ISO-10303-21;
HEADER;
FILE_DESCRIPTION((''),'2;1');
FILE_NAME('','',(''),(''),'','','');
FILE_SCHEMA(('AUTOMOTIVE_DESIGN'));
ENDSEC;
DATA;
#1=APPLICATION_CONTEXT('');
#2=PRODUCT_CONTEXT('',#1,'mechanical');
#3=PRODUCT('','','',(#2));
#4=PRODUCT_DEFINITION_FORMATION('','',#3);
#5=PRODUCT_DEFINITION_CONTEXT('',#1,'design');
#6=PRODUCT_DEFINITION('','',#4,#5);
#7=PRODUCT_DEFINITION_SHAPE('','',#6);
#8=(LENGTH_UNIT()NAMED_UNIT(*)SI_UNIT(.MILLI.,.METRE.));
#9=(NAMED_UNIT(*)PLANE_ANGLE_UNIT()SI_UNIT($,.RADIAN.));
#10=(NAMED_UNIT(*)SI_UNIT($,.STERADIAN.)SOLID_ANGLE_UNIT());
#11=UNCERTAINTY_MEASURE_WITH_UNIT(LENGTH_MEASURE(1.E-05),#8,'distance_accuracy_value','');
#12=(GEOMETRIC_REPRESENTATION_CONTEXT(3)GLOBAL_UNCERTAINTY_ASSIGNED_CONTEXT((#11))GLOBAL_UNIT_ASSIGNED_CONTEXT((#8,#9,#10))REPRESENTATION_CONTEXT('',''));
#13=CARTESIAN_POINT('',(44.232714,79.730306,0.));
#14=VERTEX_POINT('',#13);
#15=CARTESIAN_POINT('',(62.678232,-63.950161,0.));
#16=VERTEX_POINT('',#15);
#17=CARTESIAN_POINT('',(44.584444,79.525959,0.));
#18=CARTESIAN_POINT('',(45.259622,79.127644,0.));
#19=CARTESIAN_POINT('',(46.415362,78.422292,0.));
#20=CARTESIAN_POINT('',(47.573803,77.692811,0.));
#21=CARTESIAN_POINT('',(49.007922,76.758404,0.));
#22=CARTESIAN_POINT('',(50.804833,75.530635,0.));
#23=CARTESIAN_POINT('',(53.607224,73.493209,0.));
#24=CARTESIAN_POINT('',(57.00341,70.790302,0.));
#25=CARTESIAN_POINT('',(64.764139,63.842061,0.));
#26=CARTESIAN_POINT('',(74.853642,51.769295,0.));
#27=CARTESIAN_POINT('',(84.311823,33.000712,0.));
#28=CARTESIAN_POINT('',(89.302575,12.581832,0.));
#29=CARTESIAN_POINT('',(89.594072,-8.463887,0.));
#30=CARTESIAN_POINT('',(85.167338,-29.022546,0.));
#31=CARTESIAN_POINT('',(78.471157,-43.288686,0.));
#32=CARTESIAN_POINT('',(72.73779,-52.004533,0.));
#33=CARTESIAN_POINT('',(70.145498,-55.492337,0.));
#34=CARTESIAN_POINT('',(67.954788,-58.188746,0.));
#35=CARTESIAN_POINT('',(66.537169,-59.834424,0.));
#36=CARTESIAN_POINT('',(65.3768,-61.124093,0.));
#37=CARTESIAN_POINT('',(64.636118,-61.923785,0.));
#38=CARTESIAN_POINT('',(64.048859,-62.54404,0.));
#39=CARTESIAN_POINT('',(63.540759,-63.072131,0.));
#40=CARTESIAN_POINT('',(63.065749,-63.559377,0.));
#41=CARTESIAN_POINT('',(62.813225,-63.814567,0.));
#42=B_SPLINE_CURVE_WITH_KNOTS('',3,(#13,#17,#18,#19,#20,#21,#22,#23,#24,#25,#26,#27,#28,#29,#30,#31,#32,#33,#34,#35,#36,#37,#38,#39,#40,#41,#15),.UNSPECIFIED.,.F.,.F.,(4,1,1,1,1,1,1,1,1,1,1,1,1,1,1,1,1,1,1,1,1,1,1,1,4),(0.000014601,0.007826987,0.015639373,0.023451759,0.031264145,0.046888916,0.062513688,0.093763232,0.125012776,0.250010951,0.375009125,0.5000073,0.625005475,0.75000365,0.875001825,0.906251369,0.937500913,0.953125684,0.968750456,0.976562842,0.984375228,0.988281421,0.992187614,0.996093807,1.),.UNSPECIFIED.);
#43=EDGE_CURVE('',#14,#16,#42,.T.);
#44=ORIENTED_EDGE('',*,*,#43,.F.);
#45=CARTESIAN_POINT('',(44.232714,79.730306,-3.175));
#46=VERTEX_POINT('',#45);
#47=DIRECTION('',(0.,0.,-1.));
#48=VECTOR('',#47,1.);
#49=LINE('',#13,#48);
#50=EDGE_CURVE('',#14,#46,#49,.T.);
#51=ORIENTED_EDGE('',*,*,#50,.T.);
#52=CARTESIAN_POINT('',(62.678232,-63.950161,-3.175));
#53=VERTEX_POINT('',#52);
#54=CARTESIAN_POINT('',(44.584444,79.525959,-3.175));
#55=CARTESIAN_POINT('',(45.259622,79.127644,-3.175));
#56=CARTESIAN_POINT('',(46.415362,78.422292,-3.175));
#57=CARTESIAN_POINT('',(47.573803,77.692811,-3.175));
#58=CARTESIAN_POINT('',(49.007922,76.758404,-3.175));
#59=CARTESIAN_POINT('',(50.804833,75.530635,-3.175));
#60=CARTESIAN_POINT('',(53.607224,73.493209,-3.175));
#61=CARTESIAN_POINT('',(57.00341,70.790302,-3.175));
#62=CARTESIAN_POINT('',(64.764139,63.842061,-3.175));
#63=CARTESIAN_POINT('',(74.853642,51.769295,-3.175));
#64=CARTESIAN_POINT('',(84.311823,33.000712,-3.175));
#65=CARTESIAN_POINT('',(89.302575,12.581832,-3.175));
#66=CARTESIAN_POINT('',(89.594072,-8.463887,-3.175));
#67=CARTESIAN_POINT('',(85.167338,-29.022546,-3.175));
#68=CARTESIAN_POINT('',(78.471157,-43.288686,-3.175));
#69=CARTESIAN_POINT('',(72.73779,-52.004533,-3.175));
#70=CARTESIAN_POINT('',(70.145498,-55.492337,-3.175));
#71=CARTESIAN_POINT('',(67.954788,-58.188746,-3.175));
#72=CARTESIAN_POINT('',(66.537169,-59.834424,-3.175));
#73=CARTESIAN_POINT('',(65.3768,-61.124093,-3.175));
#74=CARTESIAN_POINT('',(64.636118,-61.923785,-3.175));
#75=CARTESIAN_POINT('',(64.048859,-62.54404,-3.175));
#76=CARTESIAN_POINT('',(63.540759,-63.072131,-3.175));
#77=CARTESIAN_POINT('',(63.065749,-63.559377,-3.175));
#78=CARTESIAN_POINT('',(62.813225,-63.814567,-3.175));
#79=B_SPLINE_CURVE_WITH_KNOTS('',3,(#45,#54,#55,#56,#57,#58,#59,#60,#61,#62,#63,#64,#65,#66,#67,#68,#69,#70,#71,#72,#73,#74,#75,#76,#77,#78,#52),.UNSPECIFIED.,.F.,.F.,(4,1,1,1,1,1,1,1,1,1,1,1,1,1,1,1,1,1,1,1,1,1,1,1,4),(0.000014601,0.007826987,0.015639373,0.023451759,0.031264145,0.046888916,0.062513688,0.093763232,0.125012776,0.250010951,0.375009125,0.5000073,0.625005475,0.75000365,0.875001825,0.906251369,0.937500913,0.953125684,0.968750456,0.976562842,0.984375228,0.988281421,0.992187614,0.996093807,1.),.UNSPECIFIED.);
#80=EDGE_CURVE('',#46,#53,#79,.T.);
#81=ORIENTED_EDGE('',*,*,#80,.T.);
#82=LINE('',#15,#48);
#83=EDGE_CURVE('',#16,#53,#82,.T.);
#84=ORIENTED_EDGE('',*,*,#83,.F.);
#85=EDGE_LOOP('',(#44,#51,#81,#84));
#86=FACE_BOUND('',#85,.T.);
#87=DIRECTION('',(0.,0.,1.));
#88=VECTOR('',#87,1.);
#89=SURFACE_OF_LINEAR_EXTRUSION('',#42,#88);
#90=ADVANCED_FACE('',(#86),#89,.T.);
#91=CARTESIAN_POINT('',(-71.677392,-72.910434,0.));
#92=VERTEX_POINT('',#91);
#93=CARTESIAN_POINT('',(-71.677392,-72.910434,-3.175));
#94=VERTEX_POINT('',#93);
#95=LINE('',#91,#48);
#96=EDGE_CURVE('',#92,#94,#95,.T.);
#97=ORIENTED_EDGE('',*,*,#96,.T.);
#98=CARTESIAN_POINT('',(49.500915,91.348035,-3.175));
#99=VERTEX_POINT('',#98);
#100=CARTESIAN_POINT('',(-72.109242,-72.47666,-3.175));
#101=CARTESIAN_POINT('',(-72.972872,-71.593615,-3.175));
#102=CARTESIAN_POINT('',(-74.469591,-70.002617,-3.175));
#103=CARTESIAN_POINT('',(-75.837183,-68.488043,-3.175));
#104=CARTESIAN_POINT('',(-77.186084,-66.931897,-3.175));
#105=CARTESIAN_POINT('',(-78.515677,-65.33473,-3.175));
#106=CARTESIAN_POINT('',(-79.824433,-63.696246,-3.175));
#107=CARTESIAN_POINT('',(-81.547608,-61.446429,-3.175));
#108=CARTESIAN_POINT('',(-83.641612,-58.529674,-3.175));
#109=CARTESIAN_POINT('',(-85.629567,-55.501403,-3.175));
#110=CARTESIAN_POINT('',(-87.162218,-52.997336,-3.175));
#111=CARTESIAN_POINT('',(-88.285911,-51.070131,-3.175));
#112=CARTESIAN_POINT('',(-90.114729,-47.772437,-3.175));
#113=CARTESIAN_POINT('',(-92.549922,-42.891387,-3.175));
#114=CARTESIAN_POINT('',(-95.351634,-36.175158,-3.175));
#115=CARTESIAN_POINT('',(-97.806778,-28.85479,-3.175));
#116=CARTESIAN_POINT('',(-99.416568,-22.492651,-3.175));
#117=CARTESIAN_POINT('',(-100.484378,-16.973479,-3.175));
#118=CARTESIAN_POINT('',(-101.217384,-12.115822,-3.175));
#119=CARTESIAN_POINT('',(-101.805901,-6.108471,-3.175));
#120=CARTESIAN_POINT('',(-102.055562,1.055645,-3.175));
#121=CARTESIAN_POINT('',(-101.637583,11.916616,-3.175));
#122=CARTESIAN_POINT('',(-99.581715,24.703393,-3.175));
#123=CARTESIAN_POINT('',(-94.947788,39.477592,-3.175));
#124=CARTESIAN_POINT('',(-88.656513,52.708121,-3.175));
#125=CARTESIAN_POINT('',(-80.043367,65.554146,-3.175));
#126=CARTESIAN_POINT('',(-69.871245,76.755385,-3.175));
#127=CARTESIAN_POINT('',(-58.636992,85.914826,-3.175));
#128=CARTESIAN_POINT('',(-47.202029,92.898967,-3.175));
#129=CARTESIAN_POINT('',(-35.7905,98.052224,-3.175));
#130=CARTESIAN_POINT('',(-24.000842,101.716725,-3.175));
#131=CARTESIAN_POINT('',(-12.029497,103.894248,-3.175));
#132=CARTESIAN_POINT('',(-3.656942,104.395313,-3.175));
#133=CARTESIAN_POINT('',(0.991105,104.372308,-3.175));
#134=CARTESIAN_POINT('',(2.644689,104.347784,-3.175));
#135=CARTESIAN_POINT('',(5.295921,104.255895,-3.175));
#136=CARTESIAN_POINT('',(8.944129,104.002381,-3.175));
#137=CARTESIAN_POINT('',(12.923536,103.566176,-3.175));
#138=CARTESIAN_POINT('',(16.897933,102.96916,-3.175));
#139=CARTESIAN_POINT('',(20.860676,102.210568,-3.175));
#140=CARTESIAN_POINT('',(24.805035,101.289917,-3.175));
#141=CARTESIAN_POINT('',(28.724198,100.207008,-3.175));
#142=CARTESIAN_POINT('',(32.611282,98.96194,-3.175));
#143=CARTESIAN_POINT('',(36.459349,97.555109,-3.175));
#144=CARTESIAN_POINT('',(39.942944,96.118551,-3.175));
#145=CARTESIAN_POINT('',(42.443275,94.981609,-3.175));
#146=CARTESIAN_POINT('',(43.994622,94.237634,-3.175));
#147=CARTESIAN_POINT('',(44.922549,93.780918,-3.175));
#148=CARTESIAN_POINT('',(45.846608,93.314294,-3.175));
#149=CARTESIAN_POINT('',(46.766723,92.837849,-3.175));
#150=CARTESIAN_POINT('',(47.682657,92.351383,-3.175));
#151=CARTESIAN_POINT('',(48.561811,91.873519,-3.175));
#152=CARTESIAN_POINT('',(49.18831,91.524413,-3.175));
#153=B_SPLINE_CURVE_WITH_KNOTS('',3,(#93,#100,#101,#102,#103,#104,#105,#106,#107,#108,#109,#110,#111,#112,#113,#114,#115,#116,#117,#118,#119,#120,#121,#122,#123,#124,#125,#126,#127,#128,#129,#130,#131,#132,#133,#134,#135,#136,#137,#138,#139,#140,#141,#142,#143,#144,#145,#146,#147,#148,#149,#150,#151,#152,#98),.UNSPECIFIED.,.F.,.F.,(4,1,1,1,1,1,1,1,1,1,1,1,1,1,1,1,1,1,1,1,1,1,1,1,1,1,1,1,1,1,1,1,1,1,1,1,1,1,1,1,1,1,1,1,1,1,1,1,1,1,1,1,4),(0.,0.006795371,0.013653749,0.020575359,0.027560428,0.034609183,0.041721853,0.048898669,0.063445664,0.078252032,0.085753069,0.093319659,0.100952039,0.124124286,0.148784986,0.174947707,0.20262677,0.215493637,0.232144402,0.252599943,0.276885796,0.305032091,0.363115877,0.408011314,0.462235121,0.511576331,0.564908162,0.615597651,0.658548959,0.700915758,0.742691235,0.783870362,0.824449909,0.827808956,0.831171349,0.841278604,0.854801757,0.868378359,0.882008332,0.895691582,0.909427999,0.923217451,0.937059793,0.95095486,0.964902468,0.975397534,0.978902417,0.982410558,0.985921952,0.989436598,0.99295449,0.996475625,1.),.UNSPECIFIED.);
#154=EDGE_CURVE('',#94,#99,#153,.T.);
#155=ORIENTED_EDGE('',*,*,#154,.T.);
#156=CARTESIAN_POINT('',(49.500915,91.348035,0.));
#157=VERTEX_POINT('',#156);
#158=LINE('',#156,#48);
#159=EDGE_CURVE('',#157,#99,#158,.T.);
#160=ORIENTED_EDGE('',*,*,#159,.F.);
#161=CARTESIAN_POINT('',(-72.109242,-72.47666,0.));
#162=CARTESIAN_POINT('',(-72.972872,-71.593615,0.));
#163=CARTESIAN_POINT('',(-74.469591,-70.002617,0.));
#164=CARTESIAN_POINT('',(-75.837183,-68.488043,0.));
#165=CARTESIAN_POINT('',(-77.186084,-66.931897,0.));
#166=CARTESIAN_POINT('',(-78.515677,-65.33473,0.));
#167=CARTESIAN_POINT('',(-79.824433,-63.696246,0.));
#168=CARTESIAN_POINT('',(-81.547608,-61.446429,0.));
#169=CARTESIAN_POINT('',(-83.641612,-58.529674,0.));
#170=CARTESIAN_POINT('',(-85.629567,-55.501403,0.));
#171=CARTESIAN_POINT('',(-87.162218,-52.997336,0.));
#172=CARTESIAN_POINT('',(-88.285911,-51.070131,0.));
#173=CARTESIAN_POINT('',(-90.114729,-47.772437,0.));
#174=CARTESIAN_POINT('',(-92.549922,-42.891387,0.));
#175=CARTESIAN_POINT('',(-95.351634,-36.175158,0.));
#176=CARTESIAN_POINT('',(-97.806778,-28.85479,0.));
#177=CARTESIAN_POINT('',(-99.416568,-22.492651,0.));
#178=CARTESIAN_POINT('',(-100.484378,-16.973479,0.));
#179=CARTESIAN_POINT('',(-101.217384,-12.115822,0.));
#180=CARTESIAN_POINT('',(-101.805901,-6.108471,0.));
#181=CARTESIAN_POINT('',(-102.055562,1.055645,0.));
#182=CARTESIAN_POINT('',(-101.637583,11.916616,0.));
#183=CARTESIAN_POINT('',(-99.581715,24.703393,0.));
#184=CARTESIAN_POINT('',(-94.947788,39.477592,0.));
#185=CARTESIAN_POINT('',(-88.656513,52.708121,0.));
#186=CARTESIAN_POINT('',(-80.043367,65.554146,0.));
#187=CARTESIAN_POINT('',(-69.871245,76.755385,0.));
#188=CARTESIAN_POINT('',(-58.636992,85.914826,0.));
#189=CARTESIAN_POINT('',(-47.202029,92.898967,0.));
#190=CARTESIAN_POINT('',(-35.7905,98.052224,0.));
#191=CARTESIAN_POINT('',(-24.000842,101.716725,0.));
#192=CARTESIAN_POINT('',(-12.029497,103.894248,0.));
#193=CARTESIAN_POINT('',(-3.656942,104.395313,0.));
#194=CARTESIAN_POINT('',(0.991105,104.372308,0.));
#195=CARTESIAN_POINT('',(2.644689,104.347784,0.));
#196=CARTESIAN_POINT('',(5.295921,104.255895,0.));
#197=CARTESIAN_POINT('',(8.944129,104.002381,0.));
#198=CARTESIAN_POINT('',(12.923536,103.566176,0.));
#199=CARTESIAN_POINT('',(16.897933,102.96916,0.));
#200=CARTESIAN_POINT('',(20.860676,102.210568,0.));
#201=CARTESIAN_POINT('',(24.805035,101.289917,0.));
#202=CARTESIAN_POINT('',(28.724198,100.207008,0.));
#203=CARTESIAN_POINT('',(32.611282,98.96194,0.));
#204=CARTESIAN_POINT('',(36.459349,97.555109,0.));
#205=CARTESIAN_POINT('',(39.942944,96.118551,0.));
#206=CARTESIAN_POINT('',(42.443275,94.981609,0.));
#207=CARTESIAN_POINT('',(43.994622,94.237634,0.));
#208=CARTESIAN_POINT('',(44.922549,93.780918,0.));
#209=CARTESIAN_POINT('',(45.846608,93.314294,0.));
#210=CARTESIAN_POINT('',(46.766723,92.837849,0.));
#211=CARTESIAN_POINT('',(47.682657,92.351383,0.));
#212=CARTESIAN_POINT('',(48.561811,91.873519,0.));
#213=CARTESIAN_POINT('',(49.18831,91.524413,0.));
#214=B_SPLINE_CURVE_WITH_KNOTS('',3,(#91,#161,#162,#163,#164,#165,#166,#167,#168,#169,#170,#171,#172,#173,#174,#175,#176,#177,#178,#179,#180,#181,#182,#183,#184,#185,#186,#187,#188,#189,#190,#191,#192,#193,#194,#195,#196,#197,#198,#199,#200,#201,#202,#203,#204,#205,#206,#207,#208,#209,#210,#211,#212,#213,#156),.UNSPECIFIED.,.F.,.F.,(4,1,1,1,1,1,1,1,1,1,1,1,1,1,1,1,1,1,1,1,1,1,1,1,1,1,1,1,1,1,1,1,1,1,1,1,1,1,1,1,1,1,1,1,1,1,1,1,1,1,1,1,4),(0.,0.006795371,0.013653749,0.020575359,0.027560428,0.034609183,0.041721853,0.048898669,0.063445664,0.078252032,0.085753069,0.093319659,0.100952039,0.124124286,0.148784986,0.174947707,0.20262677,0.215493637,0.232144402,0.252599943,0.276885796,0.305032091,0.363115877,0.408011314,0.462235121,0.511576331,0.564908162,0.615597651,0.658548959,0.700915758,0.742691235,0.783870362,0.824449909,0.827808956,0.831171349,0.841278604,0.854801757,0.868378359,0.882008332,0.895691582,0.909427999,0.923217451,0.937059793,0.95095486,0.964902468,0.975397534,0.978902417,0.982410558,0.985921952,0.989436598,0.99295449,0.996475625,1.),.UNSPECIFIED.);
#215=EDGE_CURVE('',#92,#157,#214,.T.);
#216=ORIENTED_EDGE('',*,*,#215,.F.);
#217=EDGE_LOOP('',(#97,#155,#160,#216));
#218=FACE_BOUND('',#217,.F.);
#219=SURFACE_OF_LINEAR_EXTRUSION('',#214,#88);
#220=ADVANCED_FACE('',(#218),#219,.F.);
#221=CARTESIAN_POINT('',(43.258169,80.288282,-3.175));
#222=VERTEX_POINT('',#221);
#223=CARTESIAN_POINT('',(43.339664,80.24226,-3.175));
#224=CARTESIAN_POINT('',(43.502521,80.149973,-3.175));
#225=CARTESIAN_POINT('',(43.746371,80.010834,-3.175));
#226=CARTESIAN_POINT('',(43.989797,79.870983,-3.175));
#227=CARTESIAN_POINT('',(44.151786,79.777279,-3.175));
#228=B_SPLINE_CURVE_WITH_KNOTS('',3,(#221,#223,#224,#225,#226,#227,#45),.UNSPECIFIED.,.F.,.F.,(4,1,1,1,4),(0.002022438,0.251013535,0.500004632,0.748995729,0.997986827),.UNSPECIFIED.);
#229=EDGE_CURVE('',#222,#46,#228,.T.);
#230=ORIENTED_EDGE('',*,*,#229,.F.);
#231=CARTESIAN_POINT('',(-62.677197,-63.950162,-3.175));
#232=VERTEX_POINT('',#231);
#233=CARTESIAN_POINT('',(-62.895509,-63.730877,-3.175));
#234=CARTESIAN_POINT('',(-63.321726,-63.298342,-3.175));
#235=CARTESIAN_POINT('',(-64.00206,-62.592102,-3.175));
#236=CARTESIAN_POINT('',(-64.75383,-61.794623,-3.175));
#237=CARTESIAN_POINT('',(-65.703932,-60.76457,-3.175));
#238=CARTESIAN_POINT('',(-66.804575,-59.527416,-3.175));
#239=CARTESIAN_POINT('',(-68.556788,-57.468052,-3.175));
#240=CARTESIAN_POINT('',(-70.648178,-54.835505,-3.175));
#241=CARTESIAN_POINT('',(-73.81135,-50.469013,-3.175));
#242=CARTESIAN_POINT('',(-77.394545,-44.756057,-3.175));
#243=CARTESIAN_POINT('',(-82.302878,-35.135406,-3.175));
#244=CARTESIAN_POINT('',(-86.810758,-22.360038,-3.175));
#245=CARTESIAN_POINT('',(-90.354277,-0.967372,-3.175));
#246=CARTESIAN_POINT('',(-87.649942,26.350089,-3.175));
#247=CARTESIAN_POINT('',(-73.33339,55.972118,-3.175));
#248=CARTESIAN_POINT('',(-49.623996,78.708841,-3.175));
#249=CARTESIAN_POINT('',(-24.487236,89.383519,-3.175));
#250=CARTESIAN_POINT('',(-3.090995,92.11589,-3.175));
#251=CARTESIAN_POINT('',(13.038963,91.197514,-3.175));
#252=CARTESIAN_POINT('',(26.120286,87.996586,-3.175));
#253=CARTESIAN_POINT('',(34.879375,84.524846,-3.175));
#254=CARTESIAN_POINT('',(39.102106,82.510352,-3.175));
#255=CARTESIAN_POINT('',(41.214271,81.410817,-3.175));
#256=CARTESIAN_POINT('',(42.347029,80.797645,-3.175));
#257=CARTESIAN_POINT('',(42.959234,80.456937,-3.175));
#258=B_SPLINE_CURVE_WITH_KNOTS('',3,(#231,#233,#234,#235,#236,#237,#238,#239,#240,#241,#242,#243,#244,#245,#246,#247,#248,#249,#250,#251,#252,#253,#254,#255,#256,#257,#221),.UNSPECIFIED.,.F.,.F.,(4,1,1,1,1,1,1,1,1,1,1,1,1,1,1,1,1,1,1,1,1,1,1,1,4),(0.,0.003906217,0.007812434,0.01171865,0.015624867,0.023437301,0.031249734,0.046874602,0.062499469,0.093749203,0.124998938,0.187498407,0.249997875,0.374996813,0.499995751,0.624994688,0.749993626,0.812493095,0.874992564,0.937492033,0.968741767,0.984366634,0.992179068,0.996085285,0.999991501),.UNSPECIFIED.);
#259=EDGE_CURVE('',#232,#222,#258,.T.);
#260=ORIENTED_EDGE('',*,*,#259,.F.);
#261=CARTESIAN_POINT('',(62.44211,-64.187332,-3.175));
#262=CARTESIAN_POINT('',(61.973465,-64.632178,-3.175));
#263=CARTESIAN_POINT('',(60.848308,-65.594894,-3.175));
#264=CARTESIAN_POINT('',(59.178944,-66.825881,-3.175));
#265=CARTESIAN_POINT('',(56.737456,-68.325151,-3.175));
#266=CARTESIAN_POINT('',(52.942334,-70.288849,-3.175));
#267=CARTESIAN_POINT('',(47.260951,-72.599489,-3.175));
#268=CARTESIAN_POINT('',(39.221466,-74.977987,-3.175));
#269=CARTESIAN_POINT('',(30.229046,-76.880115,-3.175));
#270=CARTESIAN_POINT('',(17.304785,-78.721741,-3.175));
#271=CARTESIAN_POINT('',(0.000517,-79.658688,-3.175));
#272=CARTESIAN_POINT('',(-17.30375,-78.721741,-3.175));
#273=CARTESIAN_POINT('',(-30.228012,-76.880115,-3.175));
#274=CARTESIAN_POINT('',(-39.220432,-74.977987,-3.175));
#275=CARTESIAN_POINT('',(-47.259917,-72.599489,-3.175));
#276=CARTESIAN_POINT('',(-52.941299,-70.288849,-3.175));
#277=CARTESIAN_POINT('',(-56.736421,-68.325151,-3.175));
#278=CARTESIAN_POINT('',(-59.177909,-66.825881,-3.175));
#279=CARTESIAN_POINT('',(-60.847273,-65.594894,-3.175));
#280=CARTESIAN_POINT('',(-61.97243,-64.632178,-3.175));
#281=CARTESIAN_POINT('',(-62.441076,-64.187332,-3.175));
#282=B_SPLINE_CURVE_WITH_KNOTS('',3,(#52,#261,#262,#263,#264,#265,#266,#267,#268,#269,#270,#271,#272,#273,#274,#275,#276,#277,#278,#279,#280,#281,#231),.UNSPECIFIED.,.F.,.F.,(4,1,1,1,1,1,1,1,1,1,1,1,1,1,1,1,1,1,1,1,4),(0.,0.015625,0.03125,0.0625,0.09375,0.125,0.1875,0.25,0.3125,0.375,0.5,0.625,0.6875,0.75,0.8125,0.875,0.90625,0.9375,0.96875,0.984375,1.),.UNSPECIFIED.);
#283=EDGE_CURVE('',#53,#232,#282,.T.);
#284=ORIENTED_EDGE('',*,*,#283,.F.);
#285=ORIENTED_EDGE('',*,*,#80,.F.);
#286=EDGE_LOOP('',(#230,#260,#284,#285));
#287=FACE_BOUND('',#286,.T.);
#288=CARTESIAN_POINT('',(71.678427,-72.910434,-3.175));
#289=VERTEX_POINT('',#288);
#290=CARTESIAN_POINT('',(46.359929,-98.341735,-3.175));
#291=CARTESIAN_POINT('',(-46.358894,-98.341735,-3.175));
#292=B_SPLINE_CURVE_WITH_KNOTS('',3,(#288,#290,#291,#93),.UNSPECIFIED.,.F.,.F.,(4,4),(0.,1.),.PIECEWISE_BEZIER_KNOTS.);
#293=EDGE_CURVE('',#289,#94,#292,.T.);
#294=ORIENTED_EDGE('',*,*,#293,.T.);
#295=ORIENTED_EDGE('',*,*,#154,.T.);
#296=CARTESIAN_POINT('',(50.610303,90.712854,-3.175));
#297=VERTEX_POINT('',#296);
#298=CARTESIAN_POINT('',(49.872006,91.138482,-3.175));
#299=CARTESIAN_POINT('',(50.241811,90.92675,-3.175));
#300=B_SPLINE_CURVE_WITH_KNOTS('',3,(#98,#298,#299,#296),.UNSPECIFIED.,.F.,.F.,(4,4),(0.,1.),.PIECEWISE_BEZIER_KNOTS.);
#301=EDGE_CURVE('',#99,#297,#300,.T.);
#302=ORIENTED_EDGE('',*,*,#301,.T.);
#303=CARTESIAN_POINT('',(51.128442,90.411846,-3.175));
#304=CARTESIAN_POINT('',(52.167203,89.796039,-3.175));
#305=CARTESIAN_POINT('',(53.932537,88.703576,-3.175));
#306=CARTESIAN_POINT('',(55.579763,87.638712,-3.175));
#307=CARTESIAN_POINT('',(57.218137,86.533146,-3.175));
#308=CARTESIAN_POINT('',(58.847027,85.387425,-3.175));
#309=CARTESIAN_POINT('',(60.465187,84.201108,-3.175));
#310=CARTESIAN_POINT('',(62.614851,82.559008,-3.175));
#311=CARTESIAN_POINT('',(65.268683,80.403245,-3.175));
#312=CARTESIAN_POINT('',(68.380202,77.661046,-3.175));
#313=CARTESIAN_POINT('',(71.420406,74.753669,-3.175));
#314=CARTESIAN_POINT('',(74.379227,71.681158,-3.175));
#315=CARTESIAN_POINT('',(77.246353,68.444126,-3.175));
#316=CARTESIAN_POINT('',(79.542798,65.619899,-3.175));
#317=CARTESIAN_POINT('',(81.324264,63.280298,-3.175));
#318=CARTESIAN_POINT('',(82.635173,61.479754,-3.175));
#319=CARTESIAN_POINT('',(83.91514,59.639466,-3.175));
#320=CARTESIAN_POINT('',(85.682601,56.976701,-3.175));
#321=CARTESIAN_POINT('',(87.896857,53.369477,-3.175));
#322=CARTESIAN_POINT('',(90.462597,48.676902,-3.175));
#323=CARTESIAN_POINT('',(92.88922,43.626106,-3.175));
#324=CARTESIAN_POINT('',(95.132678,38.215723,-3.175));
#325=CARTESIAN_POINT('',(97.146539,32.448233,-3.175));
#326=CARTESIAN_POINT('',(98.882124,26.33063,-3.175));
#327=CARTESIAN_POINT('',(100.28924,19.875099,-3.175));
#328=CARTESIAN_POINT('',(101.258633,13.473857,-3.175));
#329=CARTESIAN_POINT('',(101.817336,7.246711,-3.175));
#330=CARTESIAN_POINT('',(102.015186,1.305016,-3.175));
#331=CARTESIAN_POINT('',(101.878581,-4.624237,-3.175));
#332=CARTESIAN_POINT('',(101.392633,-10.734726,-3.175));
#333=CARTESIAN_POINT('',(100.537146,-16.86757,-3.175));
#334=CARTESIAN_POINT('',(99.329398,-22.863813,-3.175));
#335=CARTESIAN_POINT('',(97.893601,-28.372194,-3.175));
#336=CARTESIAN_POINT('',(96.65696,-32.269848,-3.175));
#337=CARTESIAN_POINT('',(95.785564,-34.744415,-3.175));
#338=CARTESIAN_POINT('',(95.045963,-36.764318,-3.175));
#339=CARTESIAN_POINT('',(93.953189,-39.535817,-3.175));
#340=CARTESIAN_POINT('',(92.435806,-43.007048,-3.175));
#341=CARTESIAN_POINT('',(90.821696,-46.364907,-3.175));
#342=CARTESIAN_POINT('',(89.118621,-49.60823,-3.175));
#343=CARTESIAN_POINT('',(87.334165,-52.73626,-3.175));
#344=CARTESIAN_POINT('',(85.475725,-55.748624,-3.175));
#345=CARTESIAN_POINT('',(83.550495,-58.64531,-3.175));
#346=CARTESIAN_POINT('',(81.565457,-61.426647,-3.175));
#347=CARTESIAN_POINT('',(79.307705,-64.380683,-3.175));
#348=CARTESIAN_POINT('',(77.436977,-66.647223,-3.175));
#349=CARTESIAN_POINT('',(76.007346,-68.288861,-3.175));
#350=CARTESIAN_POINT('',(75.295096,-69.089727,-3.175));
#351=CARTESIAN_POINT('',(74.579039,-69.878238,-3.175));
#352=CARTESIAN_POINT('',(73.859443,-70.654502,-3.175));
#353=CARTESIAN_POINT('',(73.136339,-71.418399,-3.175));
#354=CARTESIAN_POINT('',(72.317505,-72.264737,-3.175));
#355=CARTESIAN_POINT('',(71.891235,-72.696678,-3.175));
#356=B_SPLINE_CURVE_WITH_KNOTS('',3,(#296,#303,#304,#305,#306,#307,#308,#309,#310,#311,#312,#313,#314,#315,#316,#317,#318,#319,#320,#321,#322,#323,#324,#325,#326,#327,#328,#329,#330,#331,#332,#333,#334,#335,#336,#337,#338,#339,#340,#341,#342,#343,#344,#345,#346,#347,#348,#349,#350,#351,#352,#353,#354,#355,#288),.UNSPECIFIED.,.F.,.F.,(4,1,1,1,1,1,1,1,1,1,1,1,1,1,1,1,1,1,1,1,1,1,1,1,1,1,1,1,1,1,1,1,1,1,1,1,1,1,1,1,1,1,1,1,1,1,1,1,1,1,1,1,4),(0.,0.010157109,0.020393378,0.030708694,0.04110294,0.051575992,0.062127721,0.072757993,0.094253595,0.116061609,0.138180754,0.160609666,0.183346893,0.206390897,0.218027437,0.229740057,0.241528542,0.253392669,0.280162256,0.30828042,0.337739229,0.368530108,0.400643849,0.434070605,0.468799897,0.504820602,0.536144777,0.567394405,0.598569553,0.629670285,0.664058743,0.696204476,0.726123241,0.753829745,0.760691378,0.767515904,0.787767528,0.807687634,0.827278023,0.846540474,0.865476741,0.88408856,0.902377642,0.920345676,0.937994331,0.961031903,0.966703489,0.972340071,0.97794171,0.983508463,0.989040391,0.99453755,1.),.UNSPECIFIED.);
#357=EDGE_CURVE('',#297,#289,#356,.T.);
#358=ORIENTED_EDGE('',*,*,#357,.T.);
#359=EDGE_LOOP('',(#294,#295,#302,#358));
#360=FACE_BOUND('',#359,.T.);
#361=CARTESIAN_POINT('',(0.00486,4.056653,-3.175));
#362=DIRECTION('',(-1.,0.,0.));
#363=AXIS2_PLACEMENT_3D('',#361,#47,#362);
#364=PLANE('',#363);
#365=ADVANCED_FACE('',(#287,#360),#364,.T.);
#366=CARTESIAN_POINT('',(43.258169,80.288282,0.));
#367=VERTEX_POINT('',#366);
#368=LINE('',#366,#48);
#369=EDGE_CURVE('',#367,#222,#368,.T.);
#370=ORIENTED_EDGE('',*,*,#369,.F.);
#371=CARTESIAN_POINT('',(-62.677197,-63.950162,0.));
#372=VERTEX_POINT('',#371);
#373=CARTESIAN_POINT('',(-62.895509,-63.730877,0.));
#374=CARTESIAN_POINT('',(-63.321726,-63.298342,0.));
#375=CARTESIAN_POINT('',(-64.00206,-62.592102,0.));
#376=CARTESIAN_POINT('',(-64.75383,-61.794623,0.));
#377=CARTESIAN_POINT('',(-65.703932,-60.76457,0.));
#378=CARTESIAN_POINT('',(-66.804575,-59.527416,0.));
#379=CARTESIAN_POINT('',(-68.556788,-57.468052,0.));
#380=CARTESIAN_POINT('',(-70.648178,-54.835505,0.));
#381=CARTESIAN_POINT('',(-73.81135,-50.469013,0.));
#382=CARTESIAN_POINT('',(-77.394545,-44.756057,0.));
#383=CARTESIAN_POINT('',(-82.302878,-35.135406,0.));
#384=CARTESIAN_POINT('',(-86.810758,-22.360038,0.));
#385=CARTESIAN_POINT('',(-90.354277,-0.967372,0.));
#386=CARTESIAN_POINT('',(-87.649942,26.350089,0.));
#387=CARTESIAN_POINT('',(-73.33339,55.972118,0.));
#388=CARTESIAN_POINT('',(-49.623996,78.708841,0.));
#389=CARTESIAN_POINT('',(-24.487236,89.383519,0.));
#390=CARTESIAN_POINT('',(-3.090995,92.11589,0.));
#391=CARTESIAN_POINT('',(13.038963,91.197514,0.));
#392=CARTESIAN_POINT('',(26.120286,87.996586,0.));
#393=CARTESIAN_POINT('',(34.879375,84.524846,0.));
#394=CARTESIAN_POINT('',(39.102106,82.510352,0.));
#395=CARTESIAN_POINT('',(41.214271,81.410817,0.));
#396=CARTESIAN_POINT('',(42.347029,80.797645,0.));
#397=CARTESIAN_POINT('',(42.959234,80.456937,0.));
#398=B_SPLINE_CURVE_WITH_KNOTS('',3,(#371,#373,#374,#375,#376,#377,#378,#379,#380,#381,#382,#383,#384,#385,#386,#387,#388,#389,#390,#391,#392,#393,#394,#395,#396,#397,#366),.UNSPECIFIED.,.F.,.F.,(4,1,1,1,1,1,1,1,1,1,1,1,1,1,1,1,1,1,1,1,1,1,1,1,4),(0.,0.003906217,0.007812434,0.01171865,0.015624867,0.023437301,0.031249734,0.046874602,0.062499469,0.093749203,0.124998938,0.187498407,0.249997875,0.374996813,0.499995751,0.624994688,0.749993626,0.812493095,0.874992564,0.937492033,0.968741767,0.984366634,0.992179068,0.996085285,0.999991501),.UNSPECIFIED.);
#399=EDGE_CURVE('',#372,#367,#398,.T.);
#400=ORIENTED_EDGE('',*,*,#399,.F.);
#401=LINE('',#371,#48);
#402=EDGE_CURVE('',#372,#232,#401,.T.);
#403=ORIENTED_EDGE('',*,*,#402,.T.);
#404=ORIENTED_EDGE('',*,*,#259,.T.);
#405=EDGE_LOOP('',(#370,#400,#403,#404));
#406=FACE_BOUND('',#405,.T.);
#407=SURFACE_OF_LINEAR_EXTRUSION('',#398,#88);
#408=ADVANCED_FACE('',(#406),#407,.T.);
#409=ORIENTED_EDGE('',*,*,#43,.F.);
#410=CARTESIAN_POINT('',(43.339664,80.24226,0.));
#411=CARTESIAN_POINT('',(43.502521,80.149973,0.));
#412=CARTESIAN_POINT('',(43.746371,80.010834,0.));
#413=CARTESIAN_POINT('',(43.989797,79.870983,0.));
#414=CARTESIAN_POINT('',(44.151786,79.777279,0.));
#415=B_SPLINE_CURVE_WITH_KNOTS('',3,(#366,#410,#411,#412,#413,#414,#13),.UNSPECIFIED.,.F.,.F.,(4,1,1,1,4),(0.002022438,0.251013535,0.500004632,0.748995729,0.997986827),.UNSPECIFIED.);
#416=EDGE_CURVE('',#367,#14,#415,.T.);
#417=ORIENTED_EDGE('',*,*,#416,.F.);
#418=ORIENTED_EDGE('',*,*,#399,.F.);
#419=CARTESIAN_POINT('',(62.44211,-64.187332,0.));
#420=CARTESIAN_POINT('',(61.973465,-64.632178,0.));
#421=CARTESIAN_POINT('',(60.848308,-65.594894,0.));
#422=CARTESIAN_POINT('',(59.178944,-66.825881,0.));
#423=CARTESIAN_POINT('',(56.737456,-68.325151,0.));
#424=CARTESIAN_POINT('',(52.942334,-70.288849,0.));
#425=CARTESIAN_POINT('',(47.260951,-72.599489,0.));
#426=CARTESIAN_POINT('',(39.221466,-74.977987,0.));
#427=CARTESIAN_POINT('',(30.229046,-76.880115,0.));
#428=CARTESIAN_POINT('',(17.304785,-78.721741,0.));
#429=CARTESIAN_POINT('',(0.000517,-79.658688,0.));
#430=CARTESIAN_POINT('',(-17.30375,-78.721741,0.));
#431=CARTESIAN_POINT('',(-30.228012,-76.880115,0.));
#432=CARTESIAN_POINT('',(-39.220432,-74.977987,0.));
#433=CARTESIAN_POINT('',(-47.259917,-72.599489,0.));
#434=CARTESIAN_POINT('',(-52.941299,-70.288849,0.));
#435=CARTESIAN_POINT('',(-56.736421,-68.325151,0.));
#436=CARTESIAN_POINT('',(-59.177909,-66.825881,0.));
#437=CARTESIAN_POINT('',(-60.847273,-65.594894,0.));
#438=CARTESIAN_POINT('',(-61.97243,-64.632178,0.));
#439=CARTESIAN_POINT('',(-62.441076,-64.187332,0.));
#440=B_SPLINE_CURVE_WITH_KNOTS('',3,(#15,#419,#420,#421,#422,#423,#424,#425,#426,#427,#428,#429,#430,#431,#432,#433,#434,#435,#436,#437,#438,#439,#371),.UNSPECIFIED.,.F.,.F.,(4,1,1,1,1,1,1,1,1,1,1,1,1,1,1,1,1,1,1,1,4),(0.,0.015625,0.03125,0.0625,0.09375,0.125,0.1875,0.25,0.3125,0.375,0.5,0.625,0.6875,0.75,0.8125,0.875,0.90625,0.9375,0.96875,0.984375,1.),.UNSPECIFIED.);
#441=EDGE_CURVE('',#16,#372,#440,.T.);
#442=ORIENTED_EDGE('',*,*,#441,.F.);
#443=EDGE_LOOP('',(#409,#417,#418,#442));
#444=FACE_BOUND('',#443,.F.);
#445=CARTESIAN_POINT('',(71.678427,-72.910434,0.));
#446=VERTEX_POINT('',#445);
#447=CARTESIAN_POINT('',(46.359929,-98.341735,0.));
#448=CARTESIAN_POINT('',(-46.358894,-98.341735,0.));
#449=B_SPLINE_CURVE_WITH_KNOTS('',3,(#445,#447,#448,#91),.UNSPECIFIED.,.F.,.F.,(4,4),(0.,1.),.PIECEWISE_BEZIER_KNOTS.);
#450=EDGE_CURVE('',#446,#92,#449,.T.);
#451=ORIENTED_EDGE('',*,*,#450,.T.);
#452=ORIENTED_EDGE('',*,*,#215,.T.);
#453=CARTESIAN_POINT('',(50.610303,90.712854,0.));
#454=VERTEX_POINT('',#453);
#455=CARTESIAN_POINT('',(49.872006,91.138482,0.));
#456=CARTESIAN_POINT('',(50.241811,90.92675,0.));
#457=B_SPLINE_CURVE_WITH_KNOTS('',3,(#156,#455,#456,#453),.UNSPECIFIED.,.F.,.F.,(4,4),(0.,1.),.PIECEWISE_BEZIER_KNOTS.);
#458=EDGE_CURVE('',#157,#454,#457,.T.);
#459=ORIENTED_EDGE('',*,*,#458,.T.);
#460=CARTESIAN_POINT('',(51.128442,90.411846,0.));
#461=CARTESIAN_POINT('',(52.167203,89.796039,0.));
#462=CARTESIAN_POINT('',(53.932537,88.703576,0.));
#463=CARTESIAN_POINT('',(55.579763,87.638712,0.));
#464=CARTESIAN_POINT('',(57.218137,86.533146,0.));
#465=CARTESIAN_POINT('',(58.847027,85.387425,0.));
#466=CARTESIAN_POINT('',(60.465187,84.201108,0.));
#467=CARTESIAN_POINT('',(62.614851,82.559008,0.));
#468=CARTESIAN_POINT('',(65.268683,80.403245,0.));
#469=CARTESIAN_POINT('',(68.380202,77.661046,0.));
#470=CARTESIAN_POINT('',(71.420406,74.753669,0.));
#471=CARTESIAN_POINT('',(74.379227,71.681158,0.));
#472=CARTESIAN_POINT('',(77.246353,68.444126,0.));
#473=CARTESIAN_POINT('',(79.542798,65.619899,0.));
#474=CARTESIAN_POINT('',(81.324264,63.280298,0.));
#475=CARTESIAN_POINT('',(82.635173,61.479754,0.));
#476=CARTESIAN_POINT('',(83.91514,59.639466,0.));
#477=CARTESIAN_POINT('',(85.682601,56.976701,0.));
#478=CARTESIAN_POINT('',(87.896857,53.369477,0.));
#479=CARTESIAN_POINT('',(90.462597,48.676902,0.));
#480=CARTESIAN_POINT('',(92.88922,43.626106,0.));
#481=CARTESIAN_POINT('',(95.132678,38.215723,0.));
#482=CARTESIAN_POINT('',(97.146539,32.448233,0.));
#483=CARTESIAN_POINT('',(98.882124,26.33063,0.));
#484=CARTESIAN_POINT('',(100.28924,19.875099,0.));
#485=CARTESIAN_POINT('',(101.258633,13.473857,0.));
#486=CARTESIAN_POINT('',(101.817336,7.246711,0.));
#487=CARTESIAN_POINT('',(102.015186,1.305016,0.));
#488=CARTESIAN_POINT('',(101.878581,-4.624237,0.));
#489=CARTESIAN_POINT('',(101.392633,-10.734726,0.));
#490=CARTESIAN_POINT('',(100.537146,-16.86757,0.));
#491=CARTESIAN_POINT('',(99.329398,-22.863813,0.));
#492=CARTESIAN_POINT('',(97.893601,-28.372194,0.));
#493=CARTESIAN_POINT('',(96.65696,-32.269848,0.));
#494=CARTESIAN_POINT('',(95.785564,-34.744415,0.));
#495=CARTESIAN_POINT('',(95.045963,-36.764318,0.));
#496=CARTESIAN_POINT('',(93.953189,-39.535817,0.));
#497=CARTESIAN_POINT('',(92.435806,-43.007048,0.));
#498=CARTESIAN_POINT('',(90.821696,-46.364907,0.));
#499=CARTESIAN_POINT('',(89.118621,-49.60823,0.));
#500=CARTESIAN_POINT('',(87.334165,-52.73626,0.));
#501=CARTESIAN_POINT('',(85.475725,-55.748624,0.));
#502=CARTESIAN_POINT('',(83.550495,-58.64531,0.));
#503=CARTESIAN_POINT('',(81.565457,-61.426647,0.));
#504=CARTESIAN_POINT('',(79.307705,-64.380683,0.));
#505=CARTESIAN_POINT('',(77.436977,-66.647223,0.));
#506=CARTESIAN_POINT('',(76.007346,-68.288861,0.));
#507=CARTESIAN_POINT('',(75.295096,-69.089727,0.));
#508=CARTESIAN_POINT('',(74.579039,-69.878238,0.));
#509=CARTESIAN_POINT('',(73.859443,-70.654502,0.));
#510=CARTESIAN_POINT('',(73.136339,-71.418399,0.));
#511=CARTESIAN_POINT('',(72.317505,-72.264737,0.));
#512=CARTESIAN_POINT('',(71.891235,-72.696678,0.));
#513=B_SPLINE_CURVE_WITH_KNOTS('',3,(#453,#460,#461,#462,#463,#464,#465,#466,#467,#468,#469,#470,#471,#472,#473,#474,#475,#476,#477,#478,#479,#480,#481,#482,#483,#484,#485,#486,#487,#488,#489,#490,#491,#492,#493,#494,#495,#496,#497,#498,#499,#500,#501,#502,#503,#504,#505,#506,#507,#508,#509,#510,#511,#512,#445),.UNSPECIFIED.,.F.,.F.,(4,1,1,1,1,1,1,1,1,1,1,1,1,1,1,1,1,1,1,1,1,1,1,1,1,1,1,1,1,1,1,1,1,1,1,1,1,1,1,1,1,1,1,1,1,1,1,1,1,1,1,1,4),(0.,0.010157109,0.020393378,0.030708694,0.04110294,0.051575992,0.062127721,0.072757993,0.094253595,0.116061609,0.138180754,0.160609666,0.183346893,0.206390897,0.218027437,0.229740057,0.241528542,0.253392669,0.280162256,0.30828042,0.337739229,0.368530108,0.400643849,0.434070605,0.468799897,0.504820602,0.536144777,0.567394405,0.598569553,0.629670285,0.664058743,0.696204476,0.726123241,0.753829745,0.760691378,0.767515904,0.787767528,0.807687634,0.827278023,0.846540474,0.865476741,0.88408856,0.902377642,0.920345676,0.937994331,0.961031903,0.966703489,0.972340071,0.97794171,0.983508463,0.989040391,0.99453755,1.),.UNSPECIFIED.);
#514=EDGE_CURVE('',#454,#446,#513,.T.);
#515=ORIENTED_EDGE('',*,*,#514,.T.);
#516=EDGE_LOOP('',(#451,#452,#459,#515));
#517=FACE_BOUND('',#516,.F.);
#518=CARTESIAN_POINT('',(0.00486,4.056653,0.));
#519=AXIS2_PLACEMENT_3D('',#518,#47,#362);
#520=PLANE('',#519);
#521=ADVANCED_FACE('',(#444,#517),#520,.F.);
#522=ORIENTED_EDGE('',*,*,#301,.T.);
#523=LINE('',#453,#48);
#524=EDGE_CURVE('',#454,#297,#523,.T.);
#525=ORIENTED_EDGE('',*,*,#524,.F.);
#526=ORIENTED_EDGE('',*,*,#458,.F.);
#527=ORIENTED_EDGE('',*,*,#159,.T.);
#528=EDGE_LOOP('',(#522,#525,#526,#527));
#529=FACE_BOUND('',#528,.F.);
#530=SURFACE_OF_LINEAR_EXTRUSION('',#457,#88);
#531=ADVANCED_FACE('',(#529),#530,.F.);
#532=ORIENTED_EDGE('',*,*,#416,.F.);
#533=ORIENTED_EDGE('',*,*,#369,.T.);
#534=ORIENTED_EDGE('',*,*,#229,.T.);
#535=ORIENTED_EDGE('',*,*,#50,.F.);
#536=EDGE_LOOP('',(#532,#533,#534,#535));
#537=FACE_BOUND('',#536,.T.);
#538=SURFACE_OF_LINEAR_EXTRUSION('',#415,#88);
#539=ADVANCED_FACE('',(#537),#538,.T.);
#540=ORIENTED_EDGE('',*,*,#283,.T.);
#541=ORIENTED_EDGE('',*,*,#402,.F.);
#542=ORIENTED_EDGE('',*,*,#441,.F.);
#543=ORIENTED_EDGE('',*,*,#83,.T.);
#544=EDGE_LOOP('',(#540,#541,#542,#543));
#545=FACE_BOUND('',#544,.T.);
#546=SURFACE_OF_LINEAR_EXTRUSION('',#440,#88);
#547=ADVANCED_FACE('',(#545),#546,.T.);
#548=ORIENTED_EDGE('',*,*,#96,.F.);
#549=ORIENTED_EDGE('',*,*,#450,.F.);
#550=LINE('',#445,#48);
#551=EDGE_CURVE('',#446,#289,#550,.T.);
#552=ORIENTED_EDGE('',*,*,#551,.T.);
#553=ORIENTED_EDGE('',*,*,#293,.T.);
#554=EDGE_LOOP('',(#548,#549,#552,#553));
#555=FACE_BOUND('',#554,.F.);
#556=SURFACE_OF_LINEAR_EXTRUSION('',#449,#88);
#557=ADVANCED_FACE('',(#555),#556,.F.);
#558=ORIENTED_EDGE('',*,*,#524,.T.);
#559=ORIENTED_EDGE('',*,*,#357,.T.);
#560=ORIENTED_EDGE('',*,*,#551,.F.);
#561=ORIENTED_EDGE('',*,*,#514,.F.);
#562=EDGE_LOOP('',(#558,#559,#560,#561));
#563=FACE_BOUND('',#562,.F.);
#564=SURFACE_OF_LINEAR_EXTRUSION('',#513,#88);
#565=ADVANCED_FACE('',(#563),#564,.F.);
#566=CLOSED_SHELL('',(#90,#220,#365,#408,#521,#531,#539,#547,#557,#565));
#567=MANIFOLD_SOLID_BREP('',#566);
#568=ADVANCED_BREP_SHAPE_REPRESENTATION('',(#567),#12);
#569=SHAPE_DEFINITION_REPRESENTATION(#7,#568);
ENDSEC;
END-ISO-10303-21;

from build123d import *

# Parameters (mm, degrees)
BOSS_EXTRUDE1_DEPTH = 3.175


with BuildPart() as part:
    # Sketch2 → Boss-Extrude1 (new body)
    with BuildSketch(Plane.XY):
        with BuildLine():
            add(Edge.make_bspline(
                [(-71.677392112, -72.91043434), (-72.109242456, -72.4766599), (-72.972872043, -71.593614958), (-74.469591152, -70.002616718), (-75.837182996, -68.488043391), (-77.186084408, -66.931897067), (-78.515677479, -65.334729876), (-79.824432739, -63.69624614), (-81.54760822, -61.446428575), (-83.64161213, -58.529673548), (-85.629566809, -55.501403393), (-87.162218254, -52.997335562), (-88.285911427, -51.070131488), (-90.114728738, -47.772436811), (-92.549922179, -42.891387424), (-95.3516338, -36.175158441), (-97.806777615, -28.854790192), (-99.416568113, -22.492651102), (-100.484378106, -16.973479224), (-101.217383692, -12.115821661), (-101.805900705, -6.108471449), (-102.055561509, 1.055644647), (-101.63758347, 11.916616183), (-99.581715265, 24.703392789), (-94.947787628, 39.477591596), (-88.656512854, 52.708120751), (-80.043367163, 65.554146484), (-69.871244821, 76.755385293), (-58.636991603, 85.914826096), (-47.202028885, 92.898966836), (-35.790499648, 98.052224226), (-24.000842482, 101.716725174), (-12.029496563, 103.894248368), (-3.656941748, 104.395312689), (0.99110515, 104.372307848), (2.644688984, 104.347784008), (5.295920706, 104.255895368), (8.944129249, 104.002381094), (12.923536456, 103.566176285), (16.897932891, 102.969160213), (20.860675893, 102.210568115), (24.80503533, 101.28991654), (28.724197829, 100.207008268), (32.611281662, 98.961940132), (36.459348765, 97.555109249), (39.942943882, 96.118550993), (42.44327487, 94.981609399), (43.99462248, 94.237634049), (44.922549304, 93.78091779), (45.846607961, 93.314294304), (46.766722746, 92.837849145), (47.682656642, 92.351383169), (48.561810847, 91.873519084), (49.188310006, 91.524412896), (49.500915025, 91.348034768)],
                knots=[0, 0, 0, 0, 0.006795371, 0.013653749, 0.020575359, 0.027560428, 0.034609183, 0.041721853, 0.048898669, 0.063445664, 0.078252032, 0.085753069, 0.093319659, 0.100952039, 0.124124286, 0.148784986, 0.174947707, 0.20262677, 0.215493637, 0.232144402, 0.252599943, 0.276885796, 0.305032091, 0.363115877, 0.408011314, 0.462235121, 0.511576331, 0.564908162, 0.615597651, 0.658548959, 0.700915758, 0.742691235, 0.783870362, 0.824449909, 0.827808956, 0.831171349, 0.841278604, 0.854801757, 0.868378359, 0.882008332, 0.895691582, 0.909427999, 0.923217451, 0.937059793, 0.95095486, 0.964902468, 0.975397534, 0.978902417, 0.982410558, 0.985921952, 0.989436598, 0.99295449, 0.996475625, 1, 1, 1, 1], degree=3))
            add(Edge.make_bspline(
                [(49.500915025, 91.348034768), (49.872005924, 91.138482333), (50.241810712, 90.926750039), (50.610303013, 90.712853821)],
                knots=[0, 0, 0, 0, 1, 1, 1, 1], degree=3))
            add(Edge.make_bspline(
                [(50.610303013, 90.712853821), (51.128442093, 90.411846037), (52.167202685, 89.796039228), (53.932536969, 88.703576387), (55.579762788, 87.638711627), (57.218137155, 86.533145805), (58.847026669, 85.387425363), (60.465187486, 84.201108463), (62.61485058, 82.559008476), (65.268683437, 80.403244909), (68.38020159, 77.661045558), (71.420405526, 74.753669295), (74.379227375, 71.68115848), (77.246352549, 68.444125522), (79.542797672, 65.619898893), (81.324264236, 63.280297585), (82.635173495, 61.479754257), (83.915139631, 59.639466174), (85.682600666, 56.976700672), (87.896856718, 53.369477174), (90.462597049, 48.676901727), (92.889220315, 43.626105667), (95.132677705, 38.215723181), (97.146538959, 32.44823322), (98.88212407, 26.330630408), (100.289240179, 19.875099059), (101.25863273, 13.473856941), (101.817336128, 7.24671143), (102.015185645, 1.305015561), (101.87858065, -4.624237286), (101.39263307, -10.734726225), (100.537146292, -16.867570025), (99.329398352, -22.86381348), (97.893600846, -28.372193875), (96.656960211, -32.269847721), (95.785564151, -34.744415114), (95.0459628, -36.764317914), (93.953188789, -39.535816997), (92.43580554, -43.007047711), (90.821696456, -46.36490671), (89.118620831, -49.608230444), (87.334164726, -52.736260206), (85.475724639, -55.748623833), (83.55049497, -58.64531039), (81.56545684, -61.42664709), (79.307705413, -64.380683017), (77.436977348, -66.647222523), (76.007346494, -68.288860963), (75.29509586, -69.089727056), (74.579038656, -69.87823774), (73.859443089, -70.654502436), (73.136338858, -71.418398838), (72.317504882, -72.264736672), (71.891235125, -72.69667798), (71.678426975, -72.91043429)],
                knots=[0, 0, 0, 0, 0.010157109, 0.020393378, 0.030708694, 0.04110294, 0.051575992, 0.062127721, 0.072757993, 0.094253595, 0.116061609, 0.138180754, 0.160609666, 0.183346893, 0.206390897, 0.218027437, 0.229740057, 0.241528542, 0.253392669, 0.280162256, 0.30828042, 0.337739229, 0.368530108, 0.400643849, 0.434070605, 0.468799897, 0.504820602, 0.536144777, 0.567394405, 0.598569553, 0.629670285, 0.664058743, 0.696204476, 0.726123241, 0.753829745, 0.760691378, 0.767515904, 0.787767528, 0.807687634, 0.827278023, 0.846540474, 0.865476741, 0.88408856, 0.902377642, 0.920345676, 0.937994331, 0.961031903, 0.966703489, 0.972340071, 0.97794171, 0.983508463, 0.989040391, 0.99453755, 1, 1, 1, 1], degree=3))
            add(Edge.make_bspline(
                [(71.678426975, -72.91043429), (46.359928794, -98.341734638), (-46.358893881, -98.341734638), (-71.677392112, -72.91043434)],
                knots=[0, 0, 0, 0, 1, 1, 1, 1], degree=3, weights=[1, 1, 1, 1]))
        make_face()
        with BuildLine():
            add(Edge.make_bspline(
                [(-62.677197057, -63.950161522), (-62.895509204, -63.730876692), (-63.321725733, -63.298342375), (-64.002059554, -62.592101669), (-64.753829554, -61.794622516), (-65.703931611, -60.764569773), (-66.804574903, -59.527416198), (-68.556788175, -57.468052236), (-70.648178443, -54.835505477), (-73.811350461, -50.469012961), (-77.394544541, -44.756057433), (-82.302878117, -35.13540616), (-86.810757895, -22.360038108), (-90.354277409, -0.967371821), (-87.649941962, 26.350088977), (-73.333390238, 55.972118358), (-49.623996274, 78.708841275), (-24.487235723, 89.383519301), (-3.090994932, 92.115890306), (13.038963103, 91.197514401), (26.120286031, 87.996586306), (34.879374941, 84.524845656), (39.102105625, 82.510352052), (41.214271269, 81.410816796), (42.347028641, 80.797644792), (42.959233617, 80.456937494), (43.258169219, 80.288282027)],
                knots=[0, 0, 0, 0, 0.003906217, 0.007812434, 0.01171865, 0.015624867, 0.023437301, 0.031249734, 0.046874602, 0.062499469, 0.093749203, 0.124998938, 0.187498407, 0.249997875, 0.374996813, 0.499995751, 0.624994688, 0.749993626, 0.812493095, 0.874992564, 0.937492033, 0.968741767, 0.984366634, 0.992179068, 0.996085285, 0.999991501, 0.999991501, 0.999991501, 0.999991501], degree=3))
            add(Edge.make_bspline(
                [(43.258169219, 80.288282027), (43.339663738, 80.24226006), (43.502520945, 80.149972739), (43.746371392, 80.01083423), (43.989796594, 79.870982545), (44.151786326, 79.777278604), (44.232713854, 79.73030574)],
                knots=[0.002022438, 0.002022438, 0.002022438, 0.002022438, 0.251013535, 0.500004632, 0.748995729, 0.997986827, 0.997986827, 0.997986827, 0.997986827], degree=3))
            add(Edge.make_bspline(
                [(44.232713854, 79.73030574), (44.58444416, 79.525959484), (45.259622085, 79.127643656), (46.415361761, 78.422292298), (47.573803007, 77.692810893), (49.007921659, 76.758403592), (50.804832808, 75.530634538), (53.607223777, 73.493209173), (57.003409969, 70.790302329), (64.764138566, 63.842060668), (74.853642347, 51.769295456), (84.311822541, 33.000711524), (89.302574517, 12.581832114), (89.594071681, -8.463887057), (85.167338267, -29.022546245), (78.471156755, -43.288686452), (72.737789819, -52.004533398), (70.145497848, -55.492337454), (67.954788222, -58.18874646), (66.537169113, -59.834423786), (65.376799992, -61.124092609), (64.636118066, -61.923784826), (64.04885936, -62.544039678), (63.540759488, -63.072130947), (63.065749199, -63.559376825), (62.8132246, -63.814567336), (62.678231924, -63.950161468)],
                knots=[1.4601e-05, 1.4601e-05, 1.4601e-05, 1.4601e-05, 0.007826987, 0.015639373, 0.023451759, 0.031264145, 0.046888916, 0.062513688, 0.093763232, 0.125012776, 0.250010951, 0.375009125, 0.5000073, 0.625005475, 0.75000365, 0.875001825, 0.906251369, 0.937500913, 0.953125684, 0.968750456, 0.976562842, 0.984375228, 0.988281421, 0.992187614, 0.996093807, 1, 1, 1, 1], degree=3))
            add(Edge.make_bspline(
                [(62.678231924, -63.950161468), (62.442110433, -64.187331736), (61.973465348, -64.632177633), (60.848308103, -65.594894105), (59.178943877, -66.825880953), (56.737455869, -68.325151322), (52.942333804, -70.28884928), (47.260951473, -72.599488515), (39.221466424, -74.977986937), (30.229046438, -76.880115217), (17.304785319, -78.721740765), (0.000517457, -79.658688067), (-17.303750406, -78.721740765), (-30.228011525, -76.880115217), (-39.22043151, -74.977986937), (-47.25991656, -72.599488515), (-52.941298891, -70.28884928), (-56.736420955, -68.325151322), (-59.177908963, -66.825880953), (-60.84727319, -65.594894105), (-61.972430435, -64.632177633), (-62.441075519, -64.187331736), (-62.677197057, -63.950161522)],
                knots=[0, 0, 0, 0, 0.015625, 0.03125, 0.0625, 0.09375, 0.125, 0.1875, 0.25, 0.3125, 0.375, 0.5, 0.625, 0.6875, 0.75, 0.8125, 0.875, 0.90625, 0.9375, 0.96875, 0.984375, 1, 1, 1, 1], degree=3))
        make_face(mode=Mode.SUBTRACT)
    extrude(amount=-BOSS_EXTRUDE1_DEPTH)


solid = part.part
